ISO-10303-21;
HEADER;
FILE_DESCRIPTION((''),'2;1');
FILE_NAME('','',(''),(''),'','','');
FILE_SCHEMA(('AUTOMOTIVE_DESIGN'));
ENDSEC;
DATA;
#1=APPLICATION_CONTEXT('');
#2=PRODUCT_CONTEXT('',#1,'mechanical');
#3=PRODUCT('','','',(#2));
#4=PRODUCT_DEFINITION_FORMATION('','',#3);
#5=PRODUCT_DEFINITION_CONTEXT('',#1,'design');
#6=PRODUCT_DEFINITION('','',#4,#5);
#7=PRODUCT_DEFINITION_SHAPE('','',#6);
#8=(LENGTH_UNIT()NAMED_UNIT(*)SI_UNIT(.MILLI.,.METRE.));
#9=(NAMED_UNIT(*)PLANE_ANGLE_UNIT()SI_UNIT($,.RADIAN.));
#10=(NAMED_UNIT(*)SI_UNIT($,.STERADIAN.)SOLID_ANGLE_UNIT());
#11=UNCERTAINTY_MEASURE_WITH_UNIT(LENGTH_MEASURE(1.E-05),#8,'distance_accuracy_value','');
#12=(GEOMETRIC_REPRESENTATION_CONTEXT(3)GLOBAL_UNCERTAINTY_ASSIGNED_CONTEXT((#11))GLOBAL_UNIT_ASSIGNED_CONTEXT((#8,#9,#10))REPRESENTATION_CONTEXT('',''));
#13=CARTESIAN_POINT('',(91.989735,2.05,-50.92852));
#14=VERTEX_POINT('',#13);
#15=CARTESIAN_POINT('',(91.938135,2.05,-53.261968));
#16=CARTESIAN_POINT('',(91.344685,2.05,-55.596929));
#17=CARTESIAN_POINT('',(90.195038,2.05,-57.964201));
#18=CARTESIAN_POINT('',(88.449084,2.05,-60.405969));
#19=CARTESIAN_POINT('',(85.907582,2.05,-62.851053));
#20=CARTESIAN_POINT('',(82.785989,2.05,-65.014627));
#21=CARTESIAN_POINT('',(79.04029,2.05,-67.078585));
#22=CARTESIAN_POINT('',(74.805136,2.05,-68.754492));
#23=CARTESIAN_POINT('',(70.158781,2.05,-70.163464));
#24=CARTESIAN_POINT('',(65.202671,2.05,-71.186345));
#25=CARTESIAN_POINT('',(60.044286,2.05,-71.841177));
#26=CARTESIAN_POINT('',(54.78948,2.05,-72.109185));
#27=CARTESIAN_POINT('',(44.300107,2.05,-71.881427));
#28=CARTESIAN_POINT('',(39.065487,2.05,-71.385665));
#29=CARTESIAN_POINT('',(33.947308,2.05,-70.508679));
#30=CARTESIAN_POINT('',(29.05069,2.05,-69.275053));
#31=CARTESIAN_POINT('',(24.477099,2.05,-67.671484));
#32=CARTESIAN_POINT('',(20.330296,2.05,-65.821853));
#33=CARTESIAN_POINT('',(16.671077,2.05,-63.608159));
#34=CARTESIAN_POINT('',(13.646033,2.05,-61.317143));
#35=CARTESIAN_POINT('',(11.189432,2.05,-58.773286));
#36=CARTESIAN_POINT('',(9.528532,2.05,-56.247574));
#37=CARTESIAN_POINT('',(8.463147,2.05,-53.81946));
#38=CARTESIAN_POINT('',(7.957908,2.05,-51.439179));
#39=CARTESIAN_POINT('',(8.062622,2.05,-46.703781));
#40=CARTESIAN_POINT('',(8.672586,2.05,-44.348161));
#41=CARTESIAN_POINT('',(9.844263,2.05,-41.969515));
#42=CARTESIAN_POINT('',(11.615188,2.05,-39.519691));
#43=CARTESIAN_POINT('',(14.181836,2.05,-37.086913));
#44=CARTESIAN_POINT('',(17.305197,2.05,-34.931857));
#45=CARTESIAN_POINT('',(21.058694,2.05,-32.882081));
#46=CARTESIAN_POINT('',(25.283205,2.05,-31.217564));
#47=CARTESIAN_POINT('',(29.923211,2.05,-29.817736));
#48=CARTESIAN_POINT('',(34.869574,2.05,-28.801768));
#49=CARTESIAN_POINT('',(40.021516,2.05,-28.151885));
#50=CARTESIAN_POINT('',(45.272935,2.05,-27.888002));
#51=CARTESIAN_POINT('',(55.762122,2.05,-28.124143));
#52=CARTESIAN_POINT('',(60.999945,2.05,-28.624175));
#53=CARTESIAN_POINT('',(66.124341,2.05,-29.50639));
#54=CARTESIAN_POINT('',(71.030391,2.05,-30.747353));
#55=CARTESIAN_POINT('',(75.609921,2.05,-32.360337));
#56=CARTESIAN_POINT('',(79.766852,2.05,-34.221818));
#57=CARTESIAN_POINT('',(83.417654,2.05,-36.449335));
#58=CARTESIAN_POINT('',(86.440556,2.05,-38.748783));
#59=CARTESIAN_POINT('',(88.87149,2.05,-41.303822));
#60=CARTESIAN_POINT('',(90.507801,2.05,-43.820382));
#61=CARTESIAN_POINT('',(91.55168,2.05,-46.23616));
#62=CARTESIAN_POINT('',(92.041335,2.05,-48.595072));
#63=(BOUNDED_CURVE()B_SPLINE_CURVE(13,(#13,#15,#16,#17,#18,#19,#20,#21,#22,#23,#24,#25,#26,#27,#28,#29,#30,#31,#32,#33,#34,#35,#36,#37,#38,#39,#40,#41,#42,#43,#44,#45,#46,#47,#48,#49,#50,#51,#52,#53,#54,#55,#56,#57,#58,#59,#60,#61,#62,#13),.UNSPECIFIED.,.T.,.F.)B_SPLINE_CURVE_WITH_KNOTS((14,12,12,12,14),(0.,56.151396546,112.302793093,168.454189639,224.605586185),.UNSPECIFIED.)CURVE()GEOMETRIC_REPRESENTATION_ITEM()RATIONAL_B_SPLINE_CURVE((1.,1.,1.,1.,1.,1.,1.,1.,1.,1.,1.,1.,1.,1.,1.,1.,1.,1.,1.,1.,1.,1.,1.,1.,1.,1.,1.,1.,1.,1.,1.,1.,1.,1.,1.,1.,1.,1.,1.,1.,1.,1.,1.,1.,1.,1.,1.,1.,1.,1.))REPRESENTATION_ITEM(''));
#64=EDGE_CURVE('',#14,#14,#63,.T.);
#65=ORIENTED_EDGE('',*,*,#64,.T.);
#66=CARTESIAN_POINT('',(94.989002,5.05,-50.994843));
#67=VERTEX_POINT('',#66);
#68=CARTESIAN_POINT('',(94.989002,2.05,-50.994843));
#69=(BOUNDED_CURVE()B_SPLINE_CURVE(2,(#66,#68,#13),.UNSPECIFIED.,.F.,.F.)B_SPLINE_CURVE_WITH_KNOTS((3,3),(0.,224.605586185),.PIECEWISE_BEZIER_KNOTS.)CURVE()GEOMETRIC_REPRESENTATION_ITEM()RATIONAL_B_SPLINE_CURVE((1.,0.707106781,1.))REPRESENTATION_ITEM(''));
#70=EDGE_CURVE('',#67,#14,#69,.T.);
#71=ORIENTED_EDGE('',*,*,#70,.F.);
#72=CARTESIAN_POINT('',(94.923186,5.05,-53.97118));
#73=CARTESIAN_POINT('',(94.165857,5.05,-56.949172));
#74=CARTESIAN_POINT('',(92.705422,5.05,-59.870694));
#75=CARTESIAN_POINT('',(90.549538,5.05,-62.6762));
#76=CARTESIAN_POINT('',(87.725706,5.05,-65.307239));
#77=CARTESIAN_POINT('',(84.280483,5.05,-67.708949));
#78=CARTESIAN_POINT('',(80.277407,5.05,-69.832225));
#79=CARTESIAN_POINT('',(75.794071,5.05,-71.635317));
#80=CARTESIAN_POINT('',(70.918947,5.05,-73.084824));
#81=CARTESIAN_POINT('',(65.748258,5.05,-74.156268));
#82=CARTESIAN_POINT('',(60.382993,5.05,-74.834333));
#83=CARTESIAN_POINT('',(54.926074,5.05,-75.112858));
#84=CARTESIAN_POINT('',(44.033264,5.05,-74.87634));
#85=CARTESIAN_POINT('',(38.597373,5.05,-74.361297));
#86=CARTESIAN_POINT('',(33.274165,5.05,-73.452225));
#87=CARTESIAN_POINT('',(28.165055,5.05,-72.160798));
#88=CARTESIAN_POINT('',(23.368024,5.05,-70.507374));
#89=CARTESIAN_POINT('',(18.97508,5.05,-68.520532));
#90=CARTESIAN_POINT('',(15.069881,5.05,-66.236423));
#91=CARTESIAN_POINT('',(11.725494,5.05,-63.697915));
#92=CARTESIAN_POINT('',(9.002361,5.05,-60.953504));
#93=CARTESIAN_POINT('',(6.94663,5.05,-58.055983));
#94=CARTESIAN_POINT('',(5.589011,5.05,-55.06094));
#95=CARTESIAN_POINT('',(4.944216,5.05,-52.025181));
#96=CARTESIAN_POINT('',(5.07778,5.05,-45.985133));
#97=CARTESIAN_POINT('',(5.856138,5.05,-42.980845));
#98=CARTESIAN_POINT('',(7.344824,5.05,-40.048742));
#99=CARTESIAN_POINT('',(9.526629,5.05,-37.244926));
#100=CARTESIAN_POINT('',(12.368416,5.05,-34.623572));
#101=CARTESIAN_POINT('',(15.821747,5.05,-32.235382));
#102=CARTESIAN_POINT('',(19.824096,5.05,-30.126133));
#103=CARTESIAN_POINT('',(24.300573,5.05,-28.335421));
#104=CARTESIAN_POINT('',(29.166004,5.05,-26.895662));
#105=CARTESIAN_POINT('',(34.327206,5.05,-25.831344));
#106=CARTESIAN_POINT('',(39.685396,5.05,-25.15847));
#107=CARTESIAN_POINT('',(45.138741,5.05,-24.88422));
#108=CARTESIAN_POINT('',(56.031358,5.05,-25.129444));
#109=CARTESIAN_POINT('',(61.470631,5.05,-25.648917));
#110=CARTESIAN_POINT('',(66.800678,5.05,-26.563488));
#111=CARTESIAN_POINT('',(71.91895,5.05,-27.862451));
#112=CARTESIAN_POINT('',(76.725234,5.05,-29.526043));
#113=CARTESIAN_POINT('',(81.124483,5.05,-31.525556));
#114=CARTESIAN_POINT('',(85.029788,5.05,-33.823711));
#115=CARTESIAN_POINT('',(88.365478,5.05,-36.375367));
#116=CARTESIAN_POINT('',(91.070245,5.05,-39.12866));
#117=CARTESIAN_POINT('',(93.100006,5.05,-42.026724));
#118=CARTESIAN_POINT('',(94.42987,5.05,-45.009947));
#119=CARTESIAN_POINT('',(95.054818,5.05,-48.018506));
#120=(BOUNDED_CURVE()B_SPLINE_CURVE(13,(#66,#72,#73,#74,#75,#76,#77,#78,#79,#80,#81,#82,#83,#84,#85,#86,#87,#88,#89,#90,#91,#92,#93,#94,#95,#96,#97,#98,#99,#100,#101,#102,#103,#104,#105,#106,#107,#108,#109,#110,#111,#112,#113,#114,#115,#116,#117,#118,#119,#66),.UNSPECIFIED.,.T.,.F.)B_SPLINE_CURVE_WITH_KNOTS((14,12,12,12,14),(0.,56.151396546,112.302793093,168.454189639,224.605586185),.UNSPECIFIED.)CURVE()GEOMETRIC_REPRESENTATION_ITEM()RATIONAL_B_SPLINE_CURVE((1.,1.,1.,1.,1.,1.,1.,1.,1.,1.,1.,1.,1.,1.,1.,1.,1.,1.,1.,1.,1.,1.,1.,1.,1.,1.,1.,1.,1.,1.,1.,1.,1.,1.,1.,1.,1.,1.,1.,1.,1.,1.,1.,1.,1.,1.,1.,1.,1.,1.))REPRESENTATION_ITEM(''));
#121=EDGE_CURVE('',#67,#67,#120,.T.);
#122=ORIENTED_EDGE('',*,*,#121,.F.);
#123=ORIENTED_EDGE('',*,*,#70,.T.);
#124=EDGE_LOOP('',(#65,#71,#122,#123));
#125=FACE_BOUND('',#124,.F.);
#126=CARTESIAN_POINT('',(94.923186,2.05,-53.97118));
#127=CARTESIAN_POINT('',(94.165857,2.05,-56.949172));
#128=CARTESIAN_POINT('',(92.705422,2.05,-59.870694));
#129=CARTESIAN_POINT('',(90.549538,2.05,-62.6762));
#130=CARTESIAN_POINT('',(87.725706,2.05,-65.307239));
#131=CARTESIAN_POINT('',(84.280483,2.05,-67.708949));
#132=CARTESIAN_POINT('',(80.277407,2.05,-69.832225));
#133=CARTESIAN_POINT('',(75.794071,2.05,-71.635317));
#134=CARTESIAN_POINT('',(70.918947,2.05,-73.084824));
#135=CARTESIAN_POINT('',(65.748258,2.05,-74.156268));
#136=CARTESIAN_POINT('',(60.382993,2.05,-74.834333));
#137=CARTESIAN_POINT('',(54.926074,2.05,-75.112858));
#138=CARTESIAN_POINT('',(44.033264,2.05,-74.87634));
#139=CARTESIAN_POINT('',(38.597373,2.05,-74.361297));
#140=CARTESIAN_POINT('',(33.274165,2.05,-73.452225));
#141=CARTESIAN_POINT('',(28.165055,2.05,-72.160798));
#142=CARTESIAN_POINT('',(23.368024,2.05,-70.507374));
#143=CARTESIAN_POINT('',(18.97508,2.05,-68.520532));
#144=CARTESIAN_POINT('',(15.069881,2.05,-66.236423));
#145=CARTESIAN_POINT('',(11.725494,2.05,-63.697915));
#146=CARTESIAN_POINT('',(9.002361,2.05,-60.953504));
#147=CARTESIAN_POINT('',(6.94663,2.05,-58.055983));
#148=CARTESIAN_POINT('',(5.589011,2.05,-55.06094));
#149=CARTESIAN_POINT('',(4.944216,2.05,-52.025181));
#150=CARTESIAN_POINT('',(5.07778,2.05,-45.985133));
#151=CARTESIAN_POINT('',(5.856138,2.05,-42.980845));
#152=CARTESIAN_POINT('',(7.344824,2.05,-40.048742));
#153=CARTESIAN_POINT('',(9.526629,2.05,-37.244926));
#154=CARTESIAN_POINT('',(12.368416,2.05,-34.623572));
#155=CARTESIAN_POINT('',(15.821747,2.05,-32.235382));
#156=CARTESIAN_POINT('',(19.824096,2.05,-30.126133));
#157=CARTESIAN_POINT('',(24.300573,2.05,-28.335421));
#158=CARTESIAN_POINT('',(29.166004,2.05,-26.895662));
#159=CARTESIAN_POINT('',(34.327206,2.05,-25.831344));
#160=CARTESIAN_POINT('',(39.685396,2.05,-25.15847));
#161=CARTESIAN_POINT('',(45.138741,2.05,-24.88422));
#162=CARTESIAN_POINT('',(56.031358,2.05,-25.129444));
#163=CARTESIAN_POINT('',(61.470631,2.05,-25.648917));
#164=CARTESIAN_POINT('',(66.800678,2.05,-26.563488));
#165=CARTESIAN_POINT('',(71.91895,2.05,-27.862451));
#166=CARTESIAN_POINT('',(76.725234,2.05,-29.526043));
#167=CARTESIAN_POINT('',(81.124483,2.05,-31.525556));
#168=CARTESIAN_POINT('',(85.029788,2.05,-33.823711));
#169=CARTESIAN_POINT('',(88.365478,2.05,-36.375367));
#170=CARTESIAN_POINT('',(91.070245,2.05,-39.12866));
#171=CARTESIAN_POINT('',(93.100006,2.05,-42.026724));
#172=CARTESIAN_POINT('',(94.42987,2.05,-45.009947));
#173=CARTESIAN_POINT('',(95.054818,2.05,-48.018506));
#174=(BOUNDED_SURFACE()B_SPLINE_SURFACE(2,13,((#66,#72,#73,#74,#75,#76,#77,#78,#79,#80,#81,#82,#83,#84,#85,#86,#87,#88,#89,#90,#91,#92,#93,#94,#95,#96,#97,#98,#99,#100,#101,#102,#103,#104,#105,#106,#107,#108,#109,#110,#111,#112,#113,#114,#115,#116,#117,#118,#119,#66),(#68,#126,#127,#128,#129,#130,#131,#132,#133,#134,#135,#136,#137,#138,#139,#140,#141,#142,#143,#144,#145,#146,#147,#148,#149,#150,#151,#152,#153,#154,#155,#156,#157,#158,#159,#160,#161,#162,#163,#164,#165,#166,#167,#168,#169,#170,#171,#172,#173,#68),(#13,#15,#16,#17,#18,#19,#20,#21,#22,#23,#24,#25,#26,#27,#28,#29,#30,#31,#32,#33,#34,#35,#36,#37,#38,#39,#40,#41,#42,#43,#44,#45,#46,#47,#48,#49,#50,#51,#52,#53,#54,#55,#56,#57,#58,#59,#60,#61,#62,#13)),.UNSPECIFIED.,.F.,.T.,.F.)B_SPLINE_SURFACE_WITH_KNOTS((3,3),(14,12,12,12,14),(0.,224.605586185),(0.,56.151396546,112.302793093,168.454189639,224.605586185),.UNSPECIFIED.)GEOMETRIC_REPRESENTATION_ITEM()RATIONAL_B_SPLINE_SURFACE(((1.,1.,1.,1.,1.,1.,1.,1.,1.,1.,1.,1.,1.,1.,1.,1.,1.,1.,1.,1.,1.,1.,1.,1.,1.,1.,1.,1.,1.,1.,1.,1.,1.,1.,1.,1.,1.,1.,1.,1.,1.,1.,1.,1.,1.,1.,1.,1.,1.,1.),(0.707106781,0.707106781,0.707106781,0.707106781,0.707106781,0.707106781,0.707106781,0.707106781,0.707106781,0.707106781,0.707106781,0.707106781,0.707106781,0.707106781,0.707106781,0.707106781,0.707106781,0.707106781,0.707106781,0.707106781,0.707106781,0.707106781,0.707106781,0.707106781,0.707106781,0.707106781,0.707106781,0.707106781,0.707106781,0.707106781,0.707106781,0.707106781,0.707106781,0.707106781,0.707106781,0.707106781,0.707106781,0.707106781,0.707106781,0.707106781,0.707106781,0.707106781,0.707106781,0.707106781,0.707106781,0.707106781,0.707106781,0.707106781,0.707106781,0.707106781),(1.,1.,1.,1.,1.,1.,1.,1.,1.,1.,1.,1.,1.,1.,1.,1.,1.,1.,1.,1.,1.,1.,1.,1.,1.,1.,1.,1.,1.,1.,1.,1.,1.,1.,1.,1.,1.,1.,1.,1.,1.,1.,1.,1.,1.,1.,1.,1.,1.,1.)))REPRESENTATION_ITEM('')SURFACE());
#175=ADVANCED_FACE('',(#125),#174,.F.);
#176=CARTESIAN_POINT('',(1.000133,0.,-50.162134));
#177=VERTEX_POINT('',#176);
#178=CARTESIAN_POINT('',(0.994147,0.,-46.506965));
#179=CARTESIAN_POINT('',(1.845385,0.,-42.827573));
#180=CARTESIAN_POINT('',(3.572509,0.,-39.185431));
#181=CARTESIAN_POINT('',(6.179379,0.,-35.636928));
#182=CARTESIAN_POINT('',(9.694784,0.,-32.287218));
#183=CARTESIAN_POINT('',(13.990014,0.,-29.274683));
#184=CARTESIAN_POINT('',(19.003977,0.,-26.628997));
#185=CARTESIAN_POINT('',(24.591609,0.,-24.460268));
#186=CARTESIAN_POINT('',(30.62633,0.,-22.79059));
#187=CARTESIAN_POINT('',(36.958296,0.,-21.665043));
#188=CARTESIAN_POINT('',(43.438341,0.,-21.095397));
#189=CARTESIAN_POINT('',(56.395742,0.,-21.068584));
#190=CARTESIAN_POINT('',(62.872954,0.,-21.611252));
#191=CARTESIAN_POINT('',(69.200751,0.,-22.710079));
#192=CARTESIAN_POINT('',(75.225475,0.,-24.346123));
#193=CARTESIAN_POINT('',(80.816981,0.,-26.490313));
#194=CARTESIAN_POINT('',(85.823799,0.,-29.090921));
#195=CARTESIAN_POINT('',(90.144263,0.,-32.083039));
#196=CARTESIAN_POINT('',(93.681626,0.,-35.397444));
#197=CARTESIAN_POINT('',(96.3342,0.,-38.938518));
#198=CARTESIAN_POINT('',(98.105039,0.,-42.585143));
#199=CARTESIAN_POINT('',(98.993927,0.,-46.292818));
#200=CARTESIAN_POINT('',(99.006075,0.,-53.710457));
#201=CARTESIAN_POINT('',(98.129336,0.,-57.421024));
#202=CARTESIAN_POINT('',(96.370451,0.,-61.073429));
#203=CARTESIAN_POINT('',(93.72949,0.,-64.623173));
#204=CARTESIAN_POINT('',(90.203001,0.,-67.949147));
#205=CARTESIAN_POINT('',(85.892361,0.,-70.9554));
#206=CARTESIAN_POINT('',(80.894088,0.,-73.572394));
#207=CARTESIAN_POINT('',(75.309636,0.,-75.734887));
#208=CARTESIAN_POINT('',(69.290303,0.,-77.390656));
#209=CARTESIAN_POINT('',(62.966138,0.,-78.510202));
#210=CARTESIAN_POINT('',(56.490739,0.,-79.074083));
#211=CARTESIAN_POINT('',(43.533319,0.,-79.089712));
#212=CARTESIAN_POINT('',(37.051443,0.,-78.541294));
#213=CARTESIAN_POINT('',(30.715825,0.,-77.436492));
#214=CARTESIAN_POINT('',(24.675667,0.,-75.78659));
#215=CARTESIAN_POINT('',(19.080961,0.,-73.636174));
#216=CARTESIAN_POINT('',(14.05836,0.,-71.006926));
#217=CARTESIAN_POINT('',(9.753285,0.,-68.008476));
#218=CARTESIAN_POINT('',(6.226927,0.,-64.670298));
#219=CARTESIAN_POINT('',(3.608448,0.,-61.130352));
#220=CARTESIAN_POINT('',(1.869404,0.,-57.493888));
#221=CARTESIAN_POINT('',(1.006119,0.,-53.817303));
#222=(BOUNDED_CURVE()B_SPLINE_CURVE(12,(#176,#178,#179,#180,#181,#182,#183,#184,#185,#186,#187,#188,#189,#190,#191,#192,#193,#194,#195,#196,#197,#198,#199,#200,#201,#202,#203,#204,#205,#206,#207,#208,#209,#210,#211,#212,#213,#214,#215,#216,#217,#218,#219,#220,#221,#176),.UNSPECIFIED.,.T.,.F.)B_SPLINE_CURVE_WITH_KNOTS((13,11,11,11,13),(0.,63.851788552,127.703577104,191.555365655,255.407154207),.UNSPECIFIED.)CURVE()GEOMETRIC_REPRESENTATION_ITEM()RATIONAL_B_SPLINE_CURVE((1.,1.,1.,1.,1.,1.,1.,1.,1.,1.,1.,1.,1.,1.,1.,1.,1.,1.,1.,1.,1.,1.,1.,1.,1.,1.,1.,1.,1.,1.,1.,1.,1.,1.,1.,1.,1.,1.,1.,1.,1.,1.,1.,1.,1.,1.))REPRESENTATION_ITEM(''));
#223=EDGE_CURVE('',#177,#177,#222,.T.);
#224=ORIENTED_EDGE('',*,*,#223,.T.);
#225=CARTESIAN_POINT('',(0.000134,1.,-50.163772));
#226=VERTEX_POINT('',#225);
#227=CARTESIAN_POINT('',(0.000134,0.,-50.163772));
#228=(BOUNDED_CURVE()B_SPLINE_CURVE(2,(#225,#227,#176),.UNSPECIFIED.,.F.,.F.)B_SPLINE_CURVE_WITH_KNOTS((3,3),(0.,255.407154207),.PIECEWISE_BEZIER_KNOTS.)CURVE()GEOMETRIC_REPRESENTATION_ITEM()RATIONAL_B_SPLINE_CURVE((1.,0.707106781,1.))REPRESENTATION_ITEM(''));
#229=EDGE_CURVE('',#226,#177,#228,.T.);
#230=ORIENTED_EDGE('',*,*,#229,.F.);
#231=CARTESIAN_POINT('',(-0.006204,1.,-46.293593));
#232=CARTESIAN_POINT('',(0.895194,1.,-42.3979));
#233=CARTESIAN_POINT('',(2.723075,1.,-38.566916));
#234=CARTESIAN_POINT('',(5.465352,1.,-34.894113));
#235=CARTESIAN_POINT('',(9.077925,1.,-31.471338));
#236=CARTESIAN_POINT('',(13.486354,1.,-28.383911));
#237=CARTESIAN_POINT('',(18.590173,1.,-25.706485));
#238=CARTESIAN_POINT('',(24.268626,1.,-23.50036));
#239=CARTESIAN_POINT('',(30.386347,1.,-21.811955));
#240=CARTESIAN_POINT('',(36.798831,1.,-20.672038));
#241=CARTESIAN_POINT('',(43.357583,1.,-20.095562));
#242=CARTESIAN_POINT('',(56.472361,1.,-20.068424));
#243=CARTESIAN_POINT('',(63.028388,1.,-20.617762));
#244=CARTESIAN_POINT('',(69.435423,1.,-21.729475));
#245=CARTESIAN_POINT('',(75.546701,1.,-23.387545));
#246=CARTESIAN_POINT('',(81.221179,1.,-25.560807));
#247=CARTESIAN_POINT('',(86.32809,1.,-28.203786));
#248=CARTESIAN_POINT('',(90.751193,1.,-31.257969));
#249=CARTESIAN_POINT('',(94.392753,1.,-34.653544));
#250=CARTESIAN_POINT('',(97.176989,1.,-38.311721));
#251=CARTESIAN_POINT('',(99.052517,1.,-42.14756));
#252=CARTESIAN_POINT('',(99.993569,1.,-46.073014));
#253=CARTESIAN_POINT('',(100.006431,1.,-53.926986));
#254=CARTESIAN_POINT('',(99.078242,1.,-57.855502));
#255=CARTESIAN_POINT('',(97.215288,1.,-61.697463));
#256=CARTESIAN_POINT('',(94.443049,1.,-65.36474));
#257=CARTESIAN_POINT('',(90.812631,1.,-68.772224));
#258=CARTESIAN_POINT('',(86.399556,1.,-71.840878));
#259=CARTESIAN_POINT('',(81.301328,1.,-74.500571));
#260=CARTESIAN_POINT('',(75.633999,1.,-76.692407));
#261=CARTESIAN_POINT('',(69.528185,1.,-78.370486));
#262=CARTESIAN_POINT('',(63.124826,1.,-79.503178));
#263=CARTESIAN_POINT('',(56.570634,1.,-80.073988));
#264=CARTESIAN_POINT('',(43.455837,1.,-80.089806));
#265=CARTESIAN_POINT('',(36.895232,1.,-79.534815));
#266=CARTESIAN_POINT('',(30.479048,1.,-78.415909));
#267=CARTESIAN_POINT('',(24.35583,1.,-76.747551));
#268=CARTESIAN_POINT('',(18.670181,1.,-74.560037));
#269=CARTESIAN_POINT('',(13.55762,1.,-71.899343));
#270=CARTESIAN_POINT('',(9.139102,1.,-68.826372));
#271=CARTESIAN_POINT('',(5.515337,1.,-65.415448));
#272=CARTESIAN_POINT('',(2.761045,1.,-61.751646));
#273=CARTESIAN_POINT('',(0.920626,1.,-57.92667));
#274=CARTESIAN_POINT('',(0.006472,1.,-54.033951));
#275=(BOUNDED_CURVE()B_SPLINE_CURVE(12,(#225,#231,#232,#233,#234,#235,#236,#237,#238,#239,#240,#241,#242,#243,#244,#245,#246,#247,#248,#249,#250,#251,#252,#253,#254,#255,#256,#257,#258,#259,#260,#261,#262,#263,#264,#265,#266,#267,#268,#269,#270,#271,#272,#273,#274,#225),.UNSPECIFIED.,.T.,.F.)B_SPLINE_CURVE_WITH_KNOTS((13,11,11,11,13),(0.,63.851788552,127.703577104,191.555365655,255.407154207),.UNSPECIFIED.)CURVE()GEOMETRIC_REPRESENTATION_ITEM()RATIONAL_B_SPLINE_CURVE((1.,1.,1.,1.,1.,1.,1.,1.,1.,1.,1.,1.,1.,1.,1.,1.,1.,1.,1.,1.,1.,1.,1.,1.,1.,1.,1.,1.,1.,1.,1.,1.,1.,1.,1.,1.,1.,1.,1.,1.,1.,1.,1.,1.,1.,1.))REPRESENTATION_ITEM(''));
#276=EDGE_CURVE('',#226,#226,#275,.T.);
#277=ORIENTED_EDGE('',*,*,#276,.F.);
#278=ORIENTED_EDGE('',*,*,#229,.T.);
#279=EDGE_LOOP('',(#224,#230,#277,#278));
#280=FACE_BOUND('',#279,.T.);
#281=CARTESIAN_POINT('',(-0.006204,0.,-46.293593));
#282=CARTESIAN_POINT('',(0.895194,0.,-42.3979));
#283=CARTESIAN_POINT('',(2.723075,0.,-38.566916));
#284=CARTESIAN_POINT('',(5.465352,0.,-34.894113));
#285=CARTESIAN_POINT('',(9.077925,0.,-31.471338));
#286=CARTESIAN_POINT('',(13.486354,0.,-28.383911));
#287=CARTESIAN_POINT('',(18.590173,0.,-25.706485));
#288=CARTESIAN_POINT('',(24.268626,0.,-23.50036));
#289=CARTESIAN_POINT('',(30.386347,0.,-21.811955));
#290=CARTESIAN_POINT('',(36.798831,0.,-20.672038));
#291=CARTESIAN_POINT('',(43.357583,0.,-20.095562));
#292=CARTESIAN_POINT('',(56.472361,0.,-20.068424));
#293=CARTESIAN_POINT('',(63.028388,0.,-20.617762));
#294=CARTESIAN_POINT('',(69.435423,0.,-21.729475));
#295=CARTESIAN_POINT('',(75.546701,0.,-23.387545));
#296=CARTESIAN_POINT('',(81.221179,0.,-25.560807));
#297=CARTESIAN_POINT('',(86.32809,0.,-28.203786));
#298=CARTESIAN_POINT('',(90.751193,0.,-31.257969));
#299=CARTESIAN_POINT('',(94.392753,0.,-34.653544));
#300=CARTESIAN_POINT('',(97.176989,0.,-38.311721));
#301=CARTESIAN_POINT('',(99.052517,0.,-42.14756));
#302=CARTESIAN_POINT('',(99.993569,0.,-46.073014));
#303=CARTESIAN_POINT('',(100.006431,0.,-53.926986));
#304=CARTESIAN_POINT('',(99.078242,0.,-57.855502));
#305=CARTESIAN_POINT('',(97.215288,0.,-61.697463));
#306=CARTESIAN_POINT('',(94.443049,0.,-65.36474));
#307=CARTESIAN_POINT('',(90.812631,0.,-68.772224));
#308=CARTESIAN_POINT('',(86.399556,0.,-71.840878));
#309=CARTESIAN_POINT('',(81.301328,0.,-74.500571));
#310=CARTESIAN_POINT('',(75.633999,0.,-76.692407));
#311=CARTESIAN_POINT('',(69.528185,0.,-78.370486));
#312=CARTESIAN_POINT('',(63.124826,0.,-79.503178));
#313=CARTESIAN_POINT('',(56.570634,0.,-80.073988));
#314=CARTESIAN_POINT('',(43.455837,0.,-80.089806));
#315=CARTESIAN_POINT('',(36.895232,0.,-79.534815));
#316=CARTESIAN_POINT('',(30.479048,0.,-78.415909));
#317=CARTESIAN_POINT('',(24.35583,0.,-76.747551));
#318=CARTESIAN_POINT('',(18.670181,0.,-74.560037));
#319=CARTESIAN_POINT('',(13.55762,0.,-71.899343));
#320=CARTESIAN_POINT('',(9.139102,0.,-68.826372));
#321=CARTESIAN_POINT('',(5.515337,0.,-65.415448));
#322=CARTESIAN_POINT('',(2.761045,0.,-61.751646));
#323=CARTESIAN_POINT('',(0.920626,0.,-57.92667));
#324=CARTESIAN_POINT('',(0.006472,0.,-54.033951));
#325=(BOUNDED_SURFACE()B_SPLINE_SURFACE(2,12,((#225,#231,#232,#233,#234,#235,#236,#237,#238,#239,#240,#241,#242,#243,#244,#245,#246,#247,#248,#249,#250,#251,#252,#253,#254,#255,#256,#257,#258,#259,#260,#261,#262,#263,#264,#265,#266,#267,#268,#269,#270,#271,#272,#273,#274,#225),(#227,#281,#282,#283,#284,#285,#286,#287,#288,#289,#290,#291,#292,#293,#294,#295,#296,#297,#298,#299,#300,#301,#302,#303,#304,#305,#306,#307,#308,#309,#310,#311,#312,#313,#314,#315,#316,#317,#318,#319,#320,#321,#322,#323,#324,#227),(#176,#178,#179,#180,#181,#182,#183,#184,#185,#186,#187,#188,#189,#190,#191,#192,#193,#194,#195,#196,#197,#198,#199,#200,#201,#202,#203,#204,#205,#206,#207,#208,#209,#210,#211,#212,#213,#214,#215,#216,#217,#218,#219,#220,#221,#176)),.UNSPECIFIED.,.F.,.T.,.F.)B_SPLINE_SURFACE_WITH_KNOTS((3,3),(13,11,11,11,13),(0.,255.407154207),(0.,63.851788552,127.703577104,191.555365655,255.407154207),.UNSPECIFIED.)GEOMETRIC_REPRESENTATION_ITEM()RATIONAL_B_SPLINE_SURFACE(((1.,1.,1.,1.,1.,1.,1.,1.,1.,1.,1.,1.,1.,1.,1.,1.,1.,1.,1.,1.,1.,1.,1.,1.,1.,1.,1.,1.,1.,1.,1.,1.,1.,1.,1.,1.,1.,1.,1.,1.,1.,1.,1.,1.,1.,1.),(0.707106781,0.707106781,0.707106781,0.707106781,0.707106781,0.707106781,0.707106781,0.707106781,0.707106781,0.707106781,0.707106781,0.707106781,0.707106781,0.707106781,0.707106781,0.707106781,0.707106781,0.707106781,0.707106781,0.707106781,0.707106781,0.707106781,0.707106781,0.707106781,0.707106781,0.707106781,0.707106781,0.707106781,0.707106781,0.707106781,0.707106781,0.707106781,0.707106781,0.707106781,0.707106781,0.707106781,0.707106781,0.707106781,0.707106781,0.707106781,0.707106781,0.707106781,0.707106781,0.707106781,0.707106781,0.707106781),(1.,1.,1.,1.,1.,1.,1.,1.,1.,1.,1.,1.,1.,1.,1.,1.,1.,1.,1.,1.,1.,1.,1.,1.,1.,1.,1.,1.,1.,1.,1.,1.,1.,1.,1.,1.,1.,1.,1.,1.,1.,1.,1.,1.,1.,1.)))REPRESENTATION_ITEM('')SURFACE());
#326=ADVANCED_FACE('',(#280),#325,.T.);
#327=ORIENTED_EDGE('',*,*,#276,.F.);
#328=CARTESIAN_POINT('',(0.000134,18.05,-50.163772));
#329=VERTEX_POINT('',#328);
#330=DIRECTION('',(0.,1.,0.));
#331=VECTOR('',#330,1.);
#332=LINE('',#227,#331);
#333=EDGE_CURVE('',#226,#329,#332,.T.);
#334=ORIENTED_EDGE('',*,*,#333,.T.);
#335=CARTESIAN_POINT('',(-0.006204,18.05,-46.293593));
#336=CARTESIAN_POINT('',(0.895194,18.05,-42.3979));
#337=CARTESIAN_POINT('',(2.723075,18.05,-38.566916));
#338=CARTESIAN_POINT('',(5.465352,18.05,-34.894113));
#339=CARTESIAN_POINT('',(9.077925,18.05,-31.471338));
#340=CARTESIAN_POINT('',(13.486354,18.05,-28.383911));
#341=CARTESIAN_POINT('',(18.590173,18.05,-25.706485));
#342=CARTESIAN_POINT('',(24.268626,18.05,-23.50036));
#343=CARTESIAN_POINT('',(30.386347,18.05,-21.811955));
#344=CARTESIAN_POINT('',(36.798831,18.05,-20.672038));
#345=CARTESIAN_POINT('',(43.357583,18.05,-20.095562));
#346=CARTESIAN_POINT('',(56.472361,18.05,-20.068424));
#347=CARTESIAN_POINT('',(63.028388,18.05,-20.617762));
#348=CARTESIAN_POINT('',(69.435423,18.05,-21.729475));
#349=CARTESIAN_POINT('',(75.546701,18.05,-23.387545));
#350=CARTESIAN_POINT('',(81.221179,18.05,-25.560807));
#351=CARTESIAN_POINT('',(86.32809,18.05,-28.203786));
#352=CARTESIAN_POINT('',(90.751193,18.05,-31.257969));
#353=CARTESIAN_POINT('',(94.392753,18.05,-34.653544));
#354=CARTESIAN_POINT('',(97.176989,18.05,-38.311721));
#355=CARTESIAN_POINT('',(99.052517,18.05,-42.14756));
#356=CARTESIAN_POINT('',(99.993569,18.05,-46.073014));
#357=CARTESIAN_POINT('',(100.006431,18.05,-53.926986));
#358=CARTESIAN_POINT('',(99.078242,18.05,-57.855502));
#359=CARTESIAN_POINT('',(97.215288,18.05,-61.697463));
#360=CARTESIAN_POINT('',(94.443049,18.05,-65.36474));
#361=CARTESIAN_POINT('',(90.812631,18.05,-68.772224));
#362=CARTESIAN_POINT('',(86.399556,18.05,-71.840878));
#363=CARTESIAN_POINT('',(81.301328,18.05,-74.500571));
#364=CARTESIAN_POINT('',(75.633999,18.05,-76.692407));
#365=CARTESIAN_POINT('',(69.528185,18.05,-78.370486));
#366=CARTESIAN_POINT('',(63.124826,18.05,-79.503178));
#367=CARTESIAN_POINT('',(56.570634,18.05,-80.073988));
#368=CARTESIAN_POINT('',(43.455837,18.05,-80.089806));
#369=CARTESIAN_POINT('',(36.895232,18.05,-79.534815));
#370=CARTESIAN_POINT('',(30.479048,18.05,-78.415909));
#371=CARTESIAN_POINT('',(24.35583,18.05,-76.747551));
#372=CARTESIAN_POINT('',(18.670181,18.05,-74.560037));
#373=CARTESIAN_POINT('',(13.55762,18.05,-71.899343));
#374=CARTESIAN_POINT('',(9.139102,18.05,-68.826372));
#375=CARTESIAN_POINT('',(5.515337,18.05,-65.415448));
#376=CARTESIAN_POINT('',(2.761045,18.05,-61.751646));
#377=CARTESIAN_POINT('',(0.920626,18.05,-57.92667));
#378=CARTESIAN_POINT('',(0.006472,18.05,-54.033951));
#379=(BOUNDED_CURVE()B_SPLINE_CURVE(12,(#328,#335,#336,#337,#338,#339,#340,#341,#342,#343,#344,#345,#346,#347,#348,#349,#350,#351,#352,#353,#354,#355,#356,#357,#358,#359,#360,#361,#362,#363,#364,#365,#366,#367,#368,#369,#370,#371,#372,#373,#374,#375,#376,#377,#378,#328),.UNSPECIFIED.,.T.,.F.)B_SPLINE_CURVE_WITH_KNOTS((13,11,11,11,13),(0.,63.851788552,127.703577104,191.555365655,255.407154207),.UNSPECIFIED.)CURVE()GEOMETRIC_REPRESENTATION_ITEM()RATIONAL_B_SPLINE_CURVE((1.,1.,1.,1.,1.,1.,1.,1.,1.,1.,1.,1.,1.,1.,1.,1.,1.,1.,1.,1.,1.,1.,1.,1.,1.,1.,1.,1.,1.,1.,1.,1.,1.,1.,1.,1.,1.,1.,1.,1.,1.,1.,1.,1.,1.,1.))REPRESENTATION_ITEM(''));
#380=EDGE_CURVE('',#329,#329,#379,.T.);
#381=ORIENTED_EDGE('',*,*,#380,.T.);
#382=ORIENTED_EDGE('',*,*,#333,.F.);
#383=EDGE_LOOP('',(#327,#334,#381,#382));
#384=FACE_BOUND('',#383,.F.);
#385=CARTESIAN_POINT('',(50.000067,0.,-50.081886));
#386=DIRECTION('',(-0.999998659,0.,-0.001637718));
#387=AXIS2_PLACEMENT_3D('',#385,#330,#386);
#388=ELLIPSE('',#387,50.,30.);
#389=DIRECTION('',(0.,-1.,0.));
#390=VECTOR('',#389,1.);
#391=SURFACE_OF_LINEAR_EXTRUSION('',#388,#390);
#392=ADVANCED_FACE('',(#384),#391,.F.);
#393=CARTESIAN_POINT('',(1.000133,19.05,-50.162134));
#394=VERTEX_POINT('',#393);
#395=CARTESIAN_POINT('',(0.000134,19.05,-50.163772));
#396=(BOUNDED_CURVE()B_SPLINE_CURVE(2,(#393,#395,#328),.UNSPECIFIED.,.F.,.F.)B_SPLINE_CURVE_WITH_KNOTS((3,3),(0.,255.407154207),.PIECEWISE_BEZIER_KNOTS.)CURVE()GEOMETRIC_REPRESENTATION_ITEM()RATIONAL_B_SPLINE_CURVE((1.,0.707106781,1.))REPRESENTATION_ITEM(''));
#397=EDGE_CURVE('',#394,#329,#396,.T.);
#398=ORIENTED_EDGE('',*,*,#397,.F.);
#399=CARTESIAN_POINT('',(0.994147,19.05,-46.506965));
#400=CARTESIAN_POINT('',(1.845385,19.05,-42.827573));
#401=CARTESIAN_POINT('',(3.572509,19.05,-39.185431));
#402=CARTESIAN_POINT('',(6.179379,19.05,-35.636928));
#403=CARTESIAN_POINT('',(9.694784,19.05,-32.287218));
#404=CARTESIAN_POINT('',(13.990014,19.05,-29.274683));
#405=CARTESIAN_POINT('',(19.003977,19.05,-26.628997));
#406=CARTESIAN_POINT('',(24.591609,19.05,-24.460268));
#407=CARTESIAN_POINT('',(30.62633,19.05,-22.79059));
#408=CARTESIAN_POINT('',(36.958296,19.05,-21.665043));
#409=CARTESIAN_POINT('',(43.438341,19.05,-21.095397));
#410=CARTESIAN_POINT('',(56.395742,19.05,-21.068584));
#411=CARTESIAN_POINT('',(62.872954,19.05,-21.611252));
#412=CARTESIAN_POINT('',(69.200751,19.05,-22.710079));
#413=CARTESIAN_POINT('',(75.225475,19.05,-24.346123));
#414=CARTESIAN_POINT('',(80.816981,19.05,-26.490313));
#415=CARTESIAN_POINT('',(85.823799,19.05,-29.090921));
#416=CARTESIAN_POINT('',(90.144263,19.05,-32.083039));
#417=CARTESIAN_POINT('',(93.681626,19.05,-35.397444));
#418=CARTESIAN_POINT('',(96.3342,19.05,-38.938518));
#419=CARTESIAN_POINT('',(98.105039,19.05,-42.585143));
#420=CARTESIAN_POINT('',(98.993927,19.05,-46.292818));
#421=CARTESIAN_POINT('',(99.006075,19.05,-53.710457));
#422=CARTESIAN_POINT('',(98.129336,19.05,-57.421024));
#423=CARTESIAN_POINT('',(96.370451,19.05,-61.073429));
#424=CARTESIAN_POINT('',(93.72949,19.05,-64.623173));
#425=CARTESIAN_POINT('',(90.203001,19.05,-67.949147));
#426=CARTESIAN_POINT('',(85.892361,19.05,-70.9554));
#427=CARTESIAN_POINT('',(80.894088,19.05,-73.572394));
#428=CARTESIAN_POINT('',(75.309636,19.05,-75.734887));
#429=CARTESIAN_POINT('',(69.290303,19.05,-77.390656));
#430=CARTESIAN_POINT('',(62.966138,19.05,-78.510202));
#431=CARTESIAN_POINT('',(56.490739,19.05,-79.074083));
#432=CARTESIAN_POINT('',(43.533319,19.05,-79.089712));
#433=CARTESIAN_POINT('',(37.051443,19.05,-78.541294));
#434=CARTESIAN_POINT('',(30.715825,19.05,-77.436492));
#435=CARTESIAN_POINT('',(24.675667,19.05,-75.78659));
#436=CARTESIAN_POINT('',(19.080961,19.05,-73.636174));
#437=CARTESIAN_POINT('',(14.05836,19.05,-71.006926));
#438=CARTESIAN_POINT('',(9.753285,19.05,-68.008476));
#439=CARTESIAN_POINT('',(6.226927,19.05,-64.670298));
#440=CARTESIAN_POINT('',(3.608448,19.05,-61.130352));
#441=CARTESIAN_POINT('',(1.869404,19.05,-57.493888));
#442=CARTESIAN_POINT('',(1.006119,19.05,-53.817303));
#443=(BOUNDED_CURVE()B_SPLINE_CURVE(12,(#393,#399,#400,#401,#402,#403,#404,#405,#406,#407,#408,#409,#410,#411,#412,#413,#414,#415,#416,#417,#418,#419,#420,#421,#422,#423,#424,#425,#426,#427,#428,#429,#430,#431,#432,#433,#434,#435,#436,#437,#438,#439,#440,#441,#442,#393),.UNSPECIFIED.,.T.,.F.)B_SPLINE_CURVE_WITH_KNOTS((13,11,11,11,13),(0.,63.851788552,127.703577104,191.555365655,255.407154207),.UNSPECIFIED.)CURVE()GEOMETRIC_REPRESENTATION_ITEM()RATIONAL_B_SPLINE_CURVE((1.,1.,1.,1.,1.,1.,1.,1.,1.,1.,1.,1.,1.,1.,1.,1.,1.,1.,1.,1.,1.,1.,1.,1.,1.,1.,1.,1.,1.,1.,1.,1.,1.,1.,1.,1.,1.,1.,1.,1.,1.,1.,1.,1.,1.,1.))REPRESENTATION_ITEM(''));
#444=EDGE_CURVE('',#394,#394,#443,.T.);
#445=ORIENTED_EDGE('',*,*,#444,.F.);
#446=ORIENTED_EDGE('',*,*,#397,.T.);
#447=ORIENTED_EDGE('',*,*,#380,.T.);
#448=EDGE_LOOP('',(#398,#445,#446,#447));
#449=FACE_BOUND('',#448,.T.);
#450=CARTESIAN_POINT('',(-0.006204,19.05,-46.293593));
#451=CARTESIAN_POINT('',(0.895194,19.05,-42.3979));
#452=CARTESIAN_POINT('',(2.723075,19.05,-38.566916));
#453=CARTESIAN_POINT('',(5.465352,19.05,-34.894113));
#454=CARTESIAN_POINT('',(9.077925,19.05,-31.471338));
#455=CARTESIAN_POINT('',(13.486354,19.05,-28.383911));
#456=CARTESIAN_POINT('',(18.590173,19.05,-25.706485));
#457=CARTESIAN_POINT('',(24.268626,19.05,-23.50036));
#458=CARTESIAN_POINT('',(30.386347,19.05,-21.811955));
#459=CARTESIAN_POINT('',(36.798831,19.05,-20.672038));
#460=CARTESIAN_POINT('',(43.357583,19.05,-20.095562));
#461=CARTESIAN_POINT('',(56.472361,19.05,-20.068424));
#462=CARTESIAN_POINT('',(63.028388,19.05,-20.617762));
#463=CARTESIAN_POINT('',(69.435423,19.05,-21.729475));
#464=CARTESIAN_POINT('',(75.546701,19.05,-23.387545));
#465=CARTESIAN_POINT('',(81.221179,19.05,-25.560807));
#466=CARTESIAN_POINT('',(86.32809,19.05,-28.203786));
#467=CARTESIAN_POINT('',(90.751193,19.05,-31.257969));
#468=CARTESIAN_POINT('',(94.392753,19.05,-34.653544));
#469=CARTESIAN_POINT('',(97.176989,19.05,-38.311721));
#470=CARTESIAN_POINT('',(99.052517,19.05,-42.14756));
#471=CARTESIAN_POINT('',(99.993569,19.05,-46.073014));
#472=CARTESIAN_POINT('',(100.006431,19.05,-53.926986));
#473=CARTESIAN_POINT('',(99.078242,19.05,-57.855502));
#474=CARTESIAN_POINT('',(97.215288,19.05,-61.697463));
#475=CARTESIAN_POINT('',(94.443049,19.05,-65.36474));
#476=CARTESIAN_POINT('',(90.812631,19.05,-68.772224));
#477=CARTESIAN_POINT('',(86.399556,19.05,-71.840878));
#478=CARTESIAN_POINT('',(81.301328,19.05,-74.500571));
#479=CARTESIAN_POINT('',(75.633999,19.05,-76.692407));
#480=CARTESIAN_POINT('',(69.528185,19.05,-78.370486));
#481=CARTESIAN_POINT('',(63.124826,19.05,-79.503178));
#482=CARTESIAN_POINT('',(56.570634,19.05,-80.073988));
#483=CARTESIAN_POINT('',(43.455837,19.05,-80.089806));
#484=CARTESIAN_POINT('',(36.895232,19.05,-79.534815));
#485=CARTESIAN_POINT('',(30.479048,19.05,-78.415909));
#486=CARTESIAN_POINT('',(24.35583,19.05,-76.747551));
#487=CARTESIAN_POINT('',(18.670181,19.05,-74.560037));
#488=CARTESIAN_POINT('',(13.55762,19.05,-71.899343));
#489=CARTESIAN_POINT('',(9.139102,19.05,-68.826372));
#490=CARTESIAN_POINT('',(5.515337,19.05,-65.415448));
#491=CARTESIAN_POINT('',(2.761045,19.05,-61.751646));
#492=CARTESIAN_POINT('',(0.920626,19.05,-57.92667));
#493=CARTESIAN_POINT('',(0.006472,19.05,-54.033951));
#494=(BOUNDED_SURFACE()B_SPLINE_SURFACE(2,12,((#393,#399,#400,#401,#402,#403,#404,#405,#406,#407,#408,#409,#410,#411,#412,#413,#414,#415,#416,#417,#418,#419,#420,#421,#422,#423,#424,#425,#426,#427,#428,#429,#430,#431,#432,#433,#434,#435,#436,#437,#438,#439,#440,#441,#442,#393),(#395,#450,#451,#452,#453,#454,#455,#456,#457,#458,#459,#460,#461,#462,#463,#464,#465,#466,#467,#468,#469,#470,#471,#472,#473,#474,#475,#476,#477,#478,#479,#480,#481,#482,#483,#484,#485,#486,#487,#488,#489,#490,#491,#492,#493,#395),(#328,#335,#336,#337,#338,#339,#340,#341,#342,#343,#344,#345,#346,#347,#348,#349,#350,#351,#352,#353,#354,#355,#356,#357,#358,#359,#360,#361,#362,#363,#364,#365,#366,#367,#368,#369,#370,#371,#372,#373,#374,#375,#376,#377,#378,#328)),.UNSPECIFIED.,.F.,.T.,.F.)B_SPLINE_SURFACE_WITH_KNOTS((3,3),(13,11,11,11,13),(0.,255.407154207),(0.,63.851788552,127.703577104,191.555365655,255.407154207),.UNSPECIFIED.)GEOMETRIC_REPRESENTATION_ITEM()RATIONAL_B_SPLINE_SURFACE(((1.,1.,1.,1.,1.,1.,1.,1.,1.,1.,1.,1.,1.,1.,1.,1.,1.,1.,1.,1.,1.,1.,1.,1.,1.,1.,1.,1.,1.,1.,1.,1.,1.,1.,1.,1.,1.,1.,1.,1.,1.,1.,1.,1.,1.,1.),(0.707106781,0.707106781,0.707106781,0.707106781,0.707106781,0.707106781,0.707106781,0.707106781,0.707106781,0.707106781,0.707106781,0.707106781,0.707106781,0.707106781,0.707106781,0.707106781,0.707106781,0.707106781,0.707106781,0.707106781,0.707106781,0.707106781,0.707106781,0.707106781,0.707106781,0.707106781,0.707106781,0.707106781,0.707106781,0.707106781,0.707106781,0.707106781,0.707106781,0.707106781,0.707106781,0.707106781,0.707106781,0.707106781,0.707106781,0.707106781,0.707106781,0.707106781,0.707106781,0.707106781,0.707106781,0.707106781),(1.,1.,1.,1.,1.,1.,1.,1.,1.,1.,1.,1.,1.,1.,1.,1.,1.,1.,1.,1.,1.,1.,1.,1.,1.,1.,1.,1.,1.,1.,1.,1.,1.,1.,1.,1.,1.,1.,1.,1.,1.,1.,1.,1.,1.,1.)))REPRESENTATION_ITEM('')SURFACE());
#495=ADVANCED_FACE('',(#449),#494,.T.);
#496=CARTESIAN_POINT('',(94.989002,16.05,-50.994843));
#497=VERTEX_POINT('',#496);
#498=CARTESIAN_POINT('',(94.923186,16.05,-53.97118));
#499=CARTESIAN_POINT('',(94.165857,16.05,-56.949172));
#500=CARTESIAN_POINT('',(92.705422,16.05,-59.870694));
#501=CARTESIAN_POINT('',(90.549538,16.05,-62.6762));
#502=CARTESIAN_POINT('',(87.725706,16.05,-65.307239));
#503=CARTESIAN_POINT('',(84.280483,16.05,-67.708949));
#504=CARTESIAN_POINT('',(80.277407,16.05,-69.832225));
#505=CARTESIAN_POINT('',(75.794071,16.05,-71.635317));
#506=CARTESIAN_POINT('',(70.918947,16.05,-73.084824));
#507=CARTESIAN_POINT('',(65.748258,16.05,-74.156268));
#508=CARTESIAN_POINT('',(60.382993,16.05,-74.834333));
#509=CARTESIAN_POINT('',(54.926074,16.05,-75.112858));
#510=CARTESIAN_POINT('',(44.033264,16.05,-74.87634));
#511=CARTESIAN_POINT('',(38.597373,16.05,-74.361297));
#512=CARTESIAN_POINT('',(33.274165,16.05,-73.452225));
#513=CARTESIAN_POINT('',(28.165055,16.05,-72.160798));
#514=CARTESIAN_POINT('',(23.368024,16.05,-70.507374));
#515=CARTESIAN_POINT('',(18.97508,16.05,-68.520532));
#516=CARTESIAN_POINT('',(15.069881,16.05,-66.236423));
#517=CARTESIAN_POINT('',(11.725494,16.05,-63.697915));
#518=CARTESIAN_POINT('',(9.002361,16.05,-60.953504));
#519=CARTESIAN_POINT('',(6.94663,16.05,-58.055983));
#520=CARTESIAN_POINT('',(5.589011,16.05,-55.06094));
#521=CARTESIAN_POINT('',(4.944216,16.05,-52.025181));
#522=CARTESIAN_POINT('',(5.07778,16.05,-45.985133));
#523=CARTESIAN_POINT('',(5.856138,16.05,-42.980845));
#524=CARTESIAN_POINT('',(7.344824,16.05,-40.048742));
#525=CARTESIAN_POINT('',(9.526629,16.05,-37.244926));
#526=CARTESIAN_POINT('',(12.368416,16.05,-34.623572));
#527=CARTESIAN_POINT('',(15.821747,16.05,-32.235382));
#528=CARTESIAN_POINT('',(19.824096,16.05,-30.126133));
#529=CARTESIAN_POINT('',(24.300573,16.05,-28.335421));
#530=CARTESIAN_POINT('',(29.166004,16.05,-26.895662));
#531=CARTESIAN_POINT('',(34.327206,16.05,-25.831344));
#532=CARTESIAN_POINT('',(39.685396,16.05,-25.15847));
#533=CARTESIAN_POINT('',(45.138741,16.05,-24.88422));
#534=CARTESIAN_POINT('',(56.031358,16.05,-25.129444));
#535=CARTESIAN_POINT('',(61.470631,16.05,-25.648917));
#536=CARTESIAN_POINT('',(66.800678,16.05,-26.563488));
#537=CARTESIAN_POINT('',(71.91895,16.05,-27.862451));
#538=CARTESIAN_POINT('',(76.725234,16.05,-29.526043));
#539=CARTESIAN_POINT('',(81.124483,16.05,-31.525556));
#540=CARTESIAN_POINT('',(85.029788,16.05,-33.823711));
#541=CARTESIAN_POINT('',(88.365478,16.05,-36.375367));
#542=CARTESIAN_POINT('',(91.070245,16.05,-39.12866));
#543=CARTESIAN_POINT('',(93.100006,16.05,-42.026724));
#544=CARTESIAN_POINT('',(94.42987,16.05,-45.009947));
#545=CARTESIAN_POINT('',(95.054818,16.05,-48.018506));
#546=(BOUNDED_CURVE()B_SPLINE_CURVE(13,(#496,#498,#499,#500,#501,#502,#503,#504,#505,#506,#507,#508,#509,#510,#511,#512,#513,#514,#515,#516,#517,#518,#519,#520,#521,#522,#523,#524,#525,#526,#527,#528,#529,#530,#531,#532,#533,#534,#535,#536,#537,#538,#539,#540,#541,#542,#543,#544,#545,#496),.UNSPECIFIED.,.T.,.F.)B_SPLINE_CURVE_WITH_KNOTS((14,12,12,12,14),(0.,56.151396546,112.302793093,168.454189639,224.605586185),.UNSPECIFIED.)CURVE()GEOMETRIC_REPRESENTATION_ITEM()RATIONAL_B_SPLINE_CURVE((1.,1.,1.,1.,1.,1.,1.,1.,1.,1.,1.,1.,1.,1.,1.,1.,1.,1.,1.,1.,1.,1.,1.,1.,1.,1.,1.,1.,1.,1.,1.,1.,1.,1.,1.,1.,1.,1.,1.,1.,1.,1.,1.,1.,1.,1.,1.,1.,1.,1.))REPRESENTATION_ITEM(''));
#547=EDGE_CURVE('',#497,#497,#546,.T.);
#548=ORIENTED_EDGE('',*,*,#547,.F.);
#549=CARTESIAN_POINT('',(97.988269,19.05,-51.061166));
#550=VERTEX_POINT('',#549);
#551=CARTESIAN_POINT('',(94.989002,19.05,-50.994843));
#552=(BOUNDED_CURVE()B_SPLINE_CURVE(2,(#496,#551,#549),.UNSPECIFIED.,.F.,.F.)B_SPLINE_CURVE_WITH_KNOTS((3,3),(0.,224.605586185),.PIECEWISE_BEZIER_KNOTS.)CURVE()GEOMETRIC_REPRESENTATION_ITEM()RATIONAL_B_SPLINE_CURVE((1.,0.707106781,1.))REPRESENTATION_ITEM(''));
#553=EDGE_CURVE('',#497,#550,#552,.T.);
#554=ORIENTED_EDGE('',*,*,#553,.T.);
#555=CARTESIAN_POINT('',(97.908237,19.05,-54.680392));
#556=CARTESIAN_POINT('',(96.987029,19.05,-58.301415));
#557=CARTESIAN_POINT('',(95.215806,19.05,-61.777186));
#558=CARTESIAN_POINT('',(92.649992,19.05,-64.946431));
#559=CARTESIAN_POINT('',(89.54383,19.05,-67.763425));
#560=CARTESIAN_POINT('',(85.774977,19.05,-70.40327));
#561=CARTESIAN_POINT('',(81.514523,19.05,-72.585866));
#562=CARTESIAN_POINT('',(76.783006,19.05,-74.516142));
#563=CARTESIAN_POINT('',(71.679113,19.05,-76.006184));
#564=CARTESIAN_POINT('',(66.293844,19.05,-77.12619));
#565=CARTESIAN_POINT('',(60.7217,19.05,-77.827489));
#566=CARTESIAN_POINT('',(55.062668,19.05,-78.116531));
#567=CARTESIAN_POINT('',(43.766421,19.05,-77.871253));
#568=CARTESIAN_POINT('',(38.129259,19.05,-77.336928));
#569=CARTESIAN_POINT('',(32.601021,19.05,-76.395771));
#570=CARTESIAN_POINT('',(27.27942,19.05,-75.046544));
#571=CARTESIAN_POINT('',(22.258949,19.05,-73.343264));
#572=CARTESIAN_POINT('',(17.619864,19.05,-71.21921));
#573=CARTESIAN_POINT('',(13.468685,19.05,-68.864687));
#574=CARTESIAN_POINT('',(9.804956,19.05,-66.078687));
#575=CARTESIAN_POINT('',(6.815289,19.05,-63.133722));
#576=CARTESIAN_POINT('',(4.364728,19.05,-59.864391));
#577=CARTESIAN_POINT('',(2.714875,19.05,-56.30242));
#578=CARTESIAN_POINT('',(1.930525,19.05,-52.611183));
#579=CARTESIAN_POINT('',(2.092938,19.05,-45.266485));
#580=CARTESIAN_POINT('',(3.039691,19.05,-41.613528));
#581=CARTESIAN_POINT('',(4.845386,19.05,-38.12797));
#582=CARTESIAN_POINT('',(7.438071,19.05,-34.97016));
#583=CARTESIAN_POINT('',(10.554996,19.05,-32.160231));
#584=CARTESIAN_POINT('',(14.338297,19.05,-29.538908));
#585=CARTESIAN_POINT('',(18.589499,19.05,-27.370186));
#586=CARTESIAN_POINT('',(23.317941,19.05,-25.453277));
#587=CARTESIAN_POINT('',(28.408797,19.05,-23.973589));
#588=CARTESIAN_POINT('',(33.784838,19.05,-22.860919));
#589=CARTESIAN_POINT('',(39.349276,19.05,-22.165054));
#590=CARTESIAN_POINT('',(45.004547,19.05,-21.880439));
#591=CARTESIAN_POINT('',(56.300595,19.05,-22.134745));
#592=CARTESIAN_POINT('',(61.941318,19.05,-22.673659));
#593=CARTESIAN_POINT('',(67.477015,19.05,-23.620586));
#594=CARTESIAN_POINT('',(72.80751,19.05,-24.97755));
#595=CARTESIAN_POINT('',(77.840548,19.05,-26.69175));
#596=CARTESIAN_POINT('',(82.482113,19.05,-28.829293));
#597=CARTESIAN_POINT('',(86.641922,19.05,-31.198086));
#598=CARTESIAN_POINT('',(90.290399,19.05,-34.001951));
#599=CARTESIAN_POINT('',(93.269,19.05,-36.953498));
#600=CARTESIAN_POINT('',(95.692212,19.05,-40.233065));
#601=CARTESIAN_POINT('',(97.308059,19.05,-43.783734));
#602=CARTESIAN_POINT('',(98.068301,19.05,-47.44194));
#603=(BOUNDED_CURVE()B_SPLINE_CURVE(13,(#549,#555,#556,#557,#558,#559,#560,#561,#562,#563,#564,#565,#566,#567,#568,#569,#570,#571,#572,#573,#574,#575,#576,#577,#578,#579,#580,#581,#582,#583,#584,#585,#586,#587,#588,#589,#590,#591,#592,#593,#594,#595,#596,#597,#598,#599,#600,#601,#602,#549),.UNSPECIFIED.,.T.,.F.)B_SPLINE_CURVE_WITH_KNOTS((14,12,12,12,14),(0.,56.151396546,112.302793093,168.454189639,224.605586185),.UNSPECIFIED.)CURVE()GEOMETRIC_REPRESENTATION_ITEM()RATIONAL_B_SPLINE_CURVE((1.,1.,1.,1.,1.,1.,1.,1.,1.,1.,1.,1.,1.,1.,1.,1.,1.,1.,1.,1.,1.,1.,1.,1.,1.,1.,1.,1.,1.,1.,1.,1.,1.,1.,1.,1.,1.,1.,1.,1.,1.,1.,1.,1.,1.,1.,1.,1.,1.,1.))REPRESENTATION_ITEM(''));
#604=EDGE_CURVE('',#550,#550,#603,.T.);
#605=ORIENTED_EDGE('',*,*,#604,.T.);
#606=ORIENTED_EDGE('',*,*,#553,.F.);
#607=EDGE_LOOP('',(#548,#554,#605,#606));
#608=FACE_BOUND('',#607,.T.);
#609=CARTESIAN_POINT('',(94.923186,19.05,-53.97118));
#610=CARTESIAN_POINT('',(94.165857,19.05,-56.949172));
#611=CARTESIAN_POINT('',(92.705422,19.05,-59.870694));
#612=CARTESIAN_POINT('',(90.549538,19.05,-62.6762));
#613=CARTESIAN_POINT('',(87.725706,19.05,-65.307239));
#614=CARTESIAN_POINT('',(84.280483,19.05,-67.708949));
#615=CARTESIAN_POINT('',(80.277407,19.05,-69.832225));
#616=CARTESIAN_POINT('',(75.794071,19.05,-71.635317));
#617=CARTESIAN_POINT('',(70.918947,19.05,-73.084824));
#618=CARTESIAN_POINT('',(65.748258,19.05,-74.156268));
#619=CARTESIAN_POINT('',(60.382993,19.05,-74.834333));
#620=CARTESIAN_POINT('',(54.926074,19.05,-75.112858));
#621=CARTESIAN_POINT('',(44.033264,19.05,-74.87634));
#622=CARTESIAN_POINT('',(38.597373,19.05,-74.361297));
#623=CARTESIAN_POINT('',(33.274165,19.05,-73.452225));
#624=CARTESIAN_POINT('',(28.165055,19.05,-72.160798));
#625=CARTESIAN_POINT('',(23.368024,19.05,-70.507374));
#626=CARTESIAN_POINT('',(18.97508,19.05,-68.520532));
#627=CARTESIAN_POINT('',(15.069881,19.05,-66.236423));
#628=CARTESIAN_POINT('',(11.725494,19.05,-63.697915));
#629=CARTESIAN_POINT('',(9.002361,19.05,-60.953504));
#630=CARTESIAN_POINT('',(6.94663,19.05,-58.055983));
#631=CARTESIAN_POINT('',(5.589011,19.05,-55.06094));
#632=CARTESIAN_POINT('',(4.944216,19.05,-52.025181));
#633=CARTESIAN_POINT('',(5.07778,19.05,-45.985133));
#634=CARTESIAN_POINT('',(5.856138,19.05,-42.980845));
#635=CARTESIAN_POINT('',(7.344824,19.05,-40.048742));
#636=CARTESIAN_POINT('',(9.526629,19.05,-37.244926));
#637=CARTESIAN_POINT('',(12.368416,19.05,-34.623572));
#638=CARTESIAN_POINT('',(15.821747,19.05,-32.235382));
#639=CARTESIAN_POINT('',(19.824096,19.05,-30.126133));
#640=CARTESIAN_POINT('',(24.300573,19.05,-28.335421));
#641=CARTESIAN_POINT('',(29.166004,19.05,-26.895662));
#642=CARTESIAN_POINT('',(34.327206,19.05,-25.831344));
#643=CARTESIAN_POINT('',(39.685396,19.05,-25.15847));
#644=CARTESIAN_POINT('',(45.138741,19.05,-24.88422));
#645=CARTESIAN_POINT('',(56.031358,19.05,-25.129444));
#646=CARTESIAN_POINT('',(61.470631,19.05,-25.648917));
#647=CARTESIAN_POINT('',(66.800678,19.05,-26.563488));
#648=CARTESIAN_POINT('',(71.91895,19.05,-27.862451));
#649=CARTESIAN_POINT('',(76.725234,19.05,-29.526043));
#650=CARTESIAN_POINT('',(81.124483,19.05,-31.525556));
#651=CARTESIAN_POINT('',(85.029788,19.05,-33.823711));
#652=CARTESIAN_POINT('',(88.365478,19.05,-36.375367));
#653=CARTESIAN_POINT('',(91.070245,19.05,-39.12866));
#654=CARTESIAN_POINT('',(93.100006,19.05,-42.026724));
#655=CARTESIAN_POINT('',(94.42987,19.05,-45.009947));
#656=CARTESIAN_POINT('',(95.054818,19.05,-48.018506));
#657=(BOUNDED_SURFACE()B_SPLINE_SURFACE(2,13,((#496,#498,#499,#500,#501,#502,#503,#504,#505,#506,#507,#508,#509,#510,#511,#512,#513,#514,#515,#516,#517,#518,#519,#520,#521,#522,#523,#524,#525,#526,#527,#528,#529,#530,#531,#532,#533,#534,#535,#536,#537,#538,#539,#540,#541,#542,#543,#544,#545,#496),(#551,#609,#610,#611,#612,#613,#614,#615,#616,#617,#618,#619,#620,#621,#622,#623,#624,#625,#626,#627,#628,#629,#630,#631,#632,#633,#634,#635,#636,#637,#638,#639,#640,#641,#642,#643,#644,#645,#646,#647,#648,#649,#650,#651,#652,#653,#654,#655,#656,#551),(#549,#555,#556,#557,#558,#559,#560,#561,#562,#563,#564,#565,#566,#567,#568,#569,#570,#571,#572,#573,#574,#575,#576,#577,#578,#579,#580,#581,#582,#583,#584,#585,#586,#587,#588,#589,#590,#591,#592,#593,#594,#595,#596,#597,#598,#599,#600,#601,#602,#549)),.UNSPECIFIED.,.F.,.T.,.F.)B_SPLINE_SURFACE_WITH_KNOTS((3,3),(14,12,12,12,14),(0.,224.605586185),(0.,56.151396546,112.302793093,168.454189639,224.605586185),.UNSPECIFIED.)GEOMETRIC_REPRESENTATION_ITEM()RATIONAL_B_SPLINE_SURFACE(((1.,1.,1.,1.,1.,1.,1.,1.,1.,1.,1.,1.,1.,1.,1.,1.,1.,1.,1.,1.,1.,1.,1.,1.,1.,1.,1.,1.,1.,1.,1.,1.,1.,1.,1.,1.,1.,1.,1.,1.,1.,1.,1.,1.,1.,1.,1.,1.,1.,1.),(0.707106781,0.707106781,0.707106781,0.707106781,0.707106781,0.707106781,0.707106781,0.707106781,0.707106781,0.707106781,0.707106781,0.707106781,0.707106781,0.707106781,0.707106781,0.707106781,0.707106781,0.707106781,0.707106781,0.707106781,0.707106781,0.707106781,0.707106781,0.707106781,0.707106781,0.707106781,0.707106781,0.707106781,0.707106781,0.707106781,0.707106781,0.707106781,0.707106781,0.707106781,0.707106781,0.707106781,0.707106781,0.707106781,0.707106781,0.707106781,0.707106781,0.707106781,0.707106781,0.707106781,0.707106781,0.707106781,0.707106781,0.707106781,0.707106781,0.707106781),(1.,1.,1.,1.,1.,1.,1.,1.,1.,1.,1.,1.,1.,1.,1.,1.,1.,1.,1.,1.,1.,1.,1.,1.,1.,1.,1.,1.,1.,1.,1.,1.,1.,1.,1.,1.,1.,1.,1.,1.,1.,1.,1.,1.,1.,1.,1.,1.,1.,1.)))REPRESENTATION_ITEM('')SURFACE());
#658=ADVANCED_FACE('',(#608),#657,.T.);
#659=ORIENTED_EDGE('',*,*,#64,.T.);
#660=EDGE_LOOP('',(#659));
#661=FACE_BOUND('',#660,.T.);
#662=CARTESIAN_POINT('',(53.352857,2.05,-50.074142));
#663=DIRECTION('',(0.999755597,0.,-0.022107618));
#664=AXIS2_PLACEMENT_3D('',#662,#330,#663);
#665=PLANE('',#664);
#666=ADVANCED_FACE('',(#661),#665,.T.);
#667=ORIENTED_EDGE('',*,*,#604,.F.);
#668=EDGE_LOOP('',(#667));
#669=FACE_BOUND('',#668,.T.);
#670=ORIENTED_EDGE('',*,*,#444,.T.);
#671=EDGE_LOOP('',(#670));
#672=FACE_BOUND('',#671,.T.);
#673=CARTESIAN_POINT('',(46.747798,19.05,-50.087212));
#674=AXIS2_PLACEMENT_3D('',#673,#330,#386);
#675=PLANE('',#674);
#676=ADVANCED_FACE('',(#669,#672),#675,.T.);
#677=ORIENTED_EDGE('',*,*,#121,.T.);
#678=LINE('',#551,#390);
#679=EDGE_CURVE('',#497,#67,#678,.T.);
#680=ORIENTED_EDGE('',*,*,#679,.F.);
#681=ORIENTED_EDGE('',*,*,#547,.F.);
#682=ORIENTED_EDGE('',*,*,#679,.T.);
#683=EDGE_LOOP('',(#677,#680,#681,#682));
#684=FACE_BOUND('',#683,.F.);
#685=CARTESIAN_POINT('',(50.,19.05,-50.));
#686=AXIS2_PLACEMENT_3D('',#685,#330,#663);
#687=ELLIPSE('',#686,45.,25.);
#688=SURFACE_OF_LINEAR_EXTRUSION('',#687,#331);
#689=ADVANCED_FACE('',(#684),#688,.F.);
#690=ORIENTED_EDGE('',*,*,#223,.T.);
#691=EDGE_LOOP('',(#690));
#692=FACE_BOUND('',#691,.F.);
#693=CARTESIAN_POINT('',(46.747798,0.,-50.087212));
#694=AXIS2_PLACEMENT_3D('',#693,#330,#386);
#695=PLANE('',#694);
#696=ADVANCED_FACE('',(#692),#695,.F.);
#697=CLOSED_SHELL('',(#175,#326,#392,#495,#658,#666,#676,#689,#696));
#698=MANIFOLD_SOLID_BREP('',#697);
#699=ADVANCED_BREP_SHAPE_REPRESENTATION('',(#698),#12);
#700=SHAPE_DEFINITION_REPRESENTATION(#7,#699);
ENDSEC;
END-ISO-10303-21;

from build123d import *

# Parameters (mm, degrees)
SKETCH2_RX          = 50
SKETCH2_RY          = 30
BOSS_EXTRUDE1_DEPTH = 19.05
SKETCH3_RX          = 45
SKETCH3_RY          = 25
CUT_EXTRUDE1_DEPTH  = 17
FILLET1_R           = 3
FILLET2_R           = 3
FILLET4_R           = 1
FILLET5_R           = 1


with BuildPart() as part:
    # Sketch2 → Boss-Extrude1 (new body)
    with BuildSketch(Plane(origin=(0, 0, 0), x_dir=(1, 0, 0), z_dir=(0, 1, 0))):
        with Locations(Location((50.000067053, 50.081885905), (0, 0, 179.906165623))):
            Ellipse(SKETCH2_RX, SKETCH2_RY)
    extrude(amount=BOSS_EXTRUDE1_DEPTH)

    # Sketch3 → Cut-Extrude1 (cut)
    with BuildSketch(Plane(origin=(0, 19.05, 0), x_dir=(1, 0, 0), z_dir=(0, 1, 0))):
        with Locations(Location((50, 50), (0, 0, 1.266776388))):
            Ellipse(SKETCH3_RX, SKETCH3_RY)
    extrude(amount=-CUT_EXTRUDE1_DEPTH, mode=Mode.SUBTRACT)

    # Fillet1
    fillet1_edges = [part.edges().sort_by_distance(p)[0] for p in [
        (5.013318209, 2.05, -48.913829528),
    ]]
    fillet(fillet1_edges, radius=FILLET1_R)

    # Fillet2
    fillet2_edges = [part.edges().sort_by_distance(p)[0] for p in [
        (5.013318209, 19.05, -48.913829528),
    ]]
    fillet(fillet2_edges, radius=FILLET2_R)

    # Fillet4
    fillet4_edges = [part.edges().sort_by_distance(p)[0] for p in [
        (99.999981674, 19.05, -50.06857837),
    ]]
    fillet(fillet4_edges, radius=FILLET4_R)

    # Fillet5
    fillet5_edges = [part.edges().sort_by_distance(p)[0] for p in [
        (99.999981674, 0, -50.06857837),
    ]]
    fillet(fillet5_edges, radius=FILLET5_R)


solid = part.part
